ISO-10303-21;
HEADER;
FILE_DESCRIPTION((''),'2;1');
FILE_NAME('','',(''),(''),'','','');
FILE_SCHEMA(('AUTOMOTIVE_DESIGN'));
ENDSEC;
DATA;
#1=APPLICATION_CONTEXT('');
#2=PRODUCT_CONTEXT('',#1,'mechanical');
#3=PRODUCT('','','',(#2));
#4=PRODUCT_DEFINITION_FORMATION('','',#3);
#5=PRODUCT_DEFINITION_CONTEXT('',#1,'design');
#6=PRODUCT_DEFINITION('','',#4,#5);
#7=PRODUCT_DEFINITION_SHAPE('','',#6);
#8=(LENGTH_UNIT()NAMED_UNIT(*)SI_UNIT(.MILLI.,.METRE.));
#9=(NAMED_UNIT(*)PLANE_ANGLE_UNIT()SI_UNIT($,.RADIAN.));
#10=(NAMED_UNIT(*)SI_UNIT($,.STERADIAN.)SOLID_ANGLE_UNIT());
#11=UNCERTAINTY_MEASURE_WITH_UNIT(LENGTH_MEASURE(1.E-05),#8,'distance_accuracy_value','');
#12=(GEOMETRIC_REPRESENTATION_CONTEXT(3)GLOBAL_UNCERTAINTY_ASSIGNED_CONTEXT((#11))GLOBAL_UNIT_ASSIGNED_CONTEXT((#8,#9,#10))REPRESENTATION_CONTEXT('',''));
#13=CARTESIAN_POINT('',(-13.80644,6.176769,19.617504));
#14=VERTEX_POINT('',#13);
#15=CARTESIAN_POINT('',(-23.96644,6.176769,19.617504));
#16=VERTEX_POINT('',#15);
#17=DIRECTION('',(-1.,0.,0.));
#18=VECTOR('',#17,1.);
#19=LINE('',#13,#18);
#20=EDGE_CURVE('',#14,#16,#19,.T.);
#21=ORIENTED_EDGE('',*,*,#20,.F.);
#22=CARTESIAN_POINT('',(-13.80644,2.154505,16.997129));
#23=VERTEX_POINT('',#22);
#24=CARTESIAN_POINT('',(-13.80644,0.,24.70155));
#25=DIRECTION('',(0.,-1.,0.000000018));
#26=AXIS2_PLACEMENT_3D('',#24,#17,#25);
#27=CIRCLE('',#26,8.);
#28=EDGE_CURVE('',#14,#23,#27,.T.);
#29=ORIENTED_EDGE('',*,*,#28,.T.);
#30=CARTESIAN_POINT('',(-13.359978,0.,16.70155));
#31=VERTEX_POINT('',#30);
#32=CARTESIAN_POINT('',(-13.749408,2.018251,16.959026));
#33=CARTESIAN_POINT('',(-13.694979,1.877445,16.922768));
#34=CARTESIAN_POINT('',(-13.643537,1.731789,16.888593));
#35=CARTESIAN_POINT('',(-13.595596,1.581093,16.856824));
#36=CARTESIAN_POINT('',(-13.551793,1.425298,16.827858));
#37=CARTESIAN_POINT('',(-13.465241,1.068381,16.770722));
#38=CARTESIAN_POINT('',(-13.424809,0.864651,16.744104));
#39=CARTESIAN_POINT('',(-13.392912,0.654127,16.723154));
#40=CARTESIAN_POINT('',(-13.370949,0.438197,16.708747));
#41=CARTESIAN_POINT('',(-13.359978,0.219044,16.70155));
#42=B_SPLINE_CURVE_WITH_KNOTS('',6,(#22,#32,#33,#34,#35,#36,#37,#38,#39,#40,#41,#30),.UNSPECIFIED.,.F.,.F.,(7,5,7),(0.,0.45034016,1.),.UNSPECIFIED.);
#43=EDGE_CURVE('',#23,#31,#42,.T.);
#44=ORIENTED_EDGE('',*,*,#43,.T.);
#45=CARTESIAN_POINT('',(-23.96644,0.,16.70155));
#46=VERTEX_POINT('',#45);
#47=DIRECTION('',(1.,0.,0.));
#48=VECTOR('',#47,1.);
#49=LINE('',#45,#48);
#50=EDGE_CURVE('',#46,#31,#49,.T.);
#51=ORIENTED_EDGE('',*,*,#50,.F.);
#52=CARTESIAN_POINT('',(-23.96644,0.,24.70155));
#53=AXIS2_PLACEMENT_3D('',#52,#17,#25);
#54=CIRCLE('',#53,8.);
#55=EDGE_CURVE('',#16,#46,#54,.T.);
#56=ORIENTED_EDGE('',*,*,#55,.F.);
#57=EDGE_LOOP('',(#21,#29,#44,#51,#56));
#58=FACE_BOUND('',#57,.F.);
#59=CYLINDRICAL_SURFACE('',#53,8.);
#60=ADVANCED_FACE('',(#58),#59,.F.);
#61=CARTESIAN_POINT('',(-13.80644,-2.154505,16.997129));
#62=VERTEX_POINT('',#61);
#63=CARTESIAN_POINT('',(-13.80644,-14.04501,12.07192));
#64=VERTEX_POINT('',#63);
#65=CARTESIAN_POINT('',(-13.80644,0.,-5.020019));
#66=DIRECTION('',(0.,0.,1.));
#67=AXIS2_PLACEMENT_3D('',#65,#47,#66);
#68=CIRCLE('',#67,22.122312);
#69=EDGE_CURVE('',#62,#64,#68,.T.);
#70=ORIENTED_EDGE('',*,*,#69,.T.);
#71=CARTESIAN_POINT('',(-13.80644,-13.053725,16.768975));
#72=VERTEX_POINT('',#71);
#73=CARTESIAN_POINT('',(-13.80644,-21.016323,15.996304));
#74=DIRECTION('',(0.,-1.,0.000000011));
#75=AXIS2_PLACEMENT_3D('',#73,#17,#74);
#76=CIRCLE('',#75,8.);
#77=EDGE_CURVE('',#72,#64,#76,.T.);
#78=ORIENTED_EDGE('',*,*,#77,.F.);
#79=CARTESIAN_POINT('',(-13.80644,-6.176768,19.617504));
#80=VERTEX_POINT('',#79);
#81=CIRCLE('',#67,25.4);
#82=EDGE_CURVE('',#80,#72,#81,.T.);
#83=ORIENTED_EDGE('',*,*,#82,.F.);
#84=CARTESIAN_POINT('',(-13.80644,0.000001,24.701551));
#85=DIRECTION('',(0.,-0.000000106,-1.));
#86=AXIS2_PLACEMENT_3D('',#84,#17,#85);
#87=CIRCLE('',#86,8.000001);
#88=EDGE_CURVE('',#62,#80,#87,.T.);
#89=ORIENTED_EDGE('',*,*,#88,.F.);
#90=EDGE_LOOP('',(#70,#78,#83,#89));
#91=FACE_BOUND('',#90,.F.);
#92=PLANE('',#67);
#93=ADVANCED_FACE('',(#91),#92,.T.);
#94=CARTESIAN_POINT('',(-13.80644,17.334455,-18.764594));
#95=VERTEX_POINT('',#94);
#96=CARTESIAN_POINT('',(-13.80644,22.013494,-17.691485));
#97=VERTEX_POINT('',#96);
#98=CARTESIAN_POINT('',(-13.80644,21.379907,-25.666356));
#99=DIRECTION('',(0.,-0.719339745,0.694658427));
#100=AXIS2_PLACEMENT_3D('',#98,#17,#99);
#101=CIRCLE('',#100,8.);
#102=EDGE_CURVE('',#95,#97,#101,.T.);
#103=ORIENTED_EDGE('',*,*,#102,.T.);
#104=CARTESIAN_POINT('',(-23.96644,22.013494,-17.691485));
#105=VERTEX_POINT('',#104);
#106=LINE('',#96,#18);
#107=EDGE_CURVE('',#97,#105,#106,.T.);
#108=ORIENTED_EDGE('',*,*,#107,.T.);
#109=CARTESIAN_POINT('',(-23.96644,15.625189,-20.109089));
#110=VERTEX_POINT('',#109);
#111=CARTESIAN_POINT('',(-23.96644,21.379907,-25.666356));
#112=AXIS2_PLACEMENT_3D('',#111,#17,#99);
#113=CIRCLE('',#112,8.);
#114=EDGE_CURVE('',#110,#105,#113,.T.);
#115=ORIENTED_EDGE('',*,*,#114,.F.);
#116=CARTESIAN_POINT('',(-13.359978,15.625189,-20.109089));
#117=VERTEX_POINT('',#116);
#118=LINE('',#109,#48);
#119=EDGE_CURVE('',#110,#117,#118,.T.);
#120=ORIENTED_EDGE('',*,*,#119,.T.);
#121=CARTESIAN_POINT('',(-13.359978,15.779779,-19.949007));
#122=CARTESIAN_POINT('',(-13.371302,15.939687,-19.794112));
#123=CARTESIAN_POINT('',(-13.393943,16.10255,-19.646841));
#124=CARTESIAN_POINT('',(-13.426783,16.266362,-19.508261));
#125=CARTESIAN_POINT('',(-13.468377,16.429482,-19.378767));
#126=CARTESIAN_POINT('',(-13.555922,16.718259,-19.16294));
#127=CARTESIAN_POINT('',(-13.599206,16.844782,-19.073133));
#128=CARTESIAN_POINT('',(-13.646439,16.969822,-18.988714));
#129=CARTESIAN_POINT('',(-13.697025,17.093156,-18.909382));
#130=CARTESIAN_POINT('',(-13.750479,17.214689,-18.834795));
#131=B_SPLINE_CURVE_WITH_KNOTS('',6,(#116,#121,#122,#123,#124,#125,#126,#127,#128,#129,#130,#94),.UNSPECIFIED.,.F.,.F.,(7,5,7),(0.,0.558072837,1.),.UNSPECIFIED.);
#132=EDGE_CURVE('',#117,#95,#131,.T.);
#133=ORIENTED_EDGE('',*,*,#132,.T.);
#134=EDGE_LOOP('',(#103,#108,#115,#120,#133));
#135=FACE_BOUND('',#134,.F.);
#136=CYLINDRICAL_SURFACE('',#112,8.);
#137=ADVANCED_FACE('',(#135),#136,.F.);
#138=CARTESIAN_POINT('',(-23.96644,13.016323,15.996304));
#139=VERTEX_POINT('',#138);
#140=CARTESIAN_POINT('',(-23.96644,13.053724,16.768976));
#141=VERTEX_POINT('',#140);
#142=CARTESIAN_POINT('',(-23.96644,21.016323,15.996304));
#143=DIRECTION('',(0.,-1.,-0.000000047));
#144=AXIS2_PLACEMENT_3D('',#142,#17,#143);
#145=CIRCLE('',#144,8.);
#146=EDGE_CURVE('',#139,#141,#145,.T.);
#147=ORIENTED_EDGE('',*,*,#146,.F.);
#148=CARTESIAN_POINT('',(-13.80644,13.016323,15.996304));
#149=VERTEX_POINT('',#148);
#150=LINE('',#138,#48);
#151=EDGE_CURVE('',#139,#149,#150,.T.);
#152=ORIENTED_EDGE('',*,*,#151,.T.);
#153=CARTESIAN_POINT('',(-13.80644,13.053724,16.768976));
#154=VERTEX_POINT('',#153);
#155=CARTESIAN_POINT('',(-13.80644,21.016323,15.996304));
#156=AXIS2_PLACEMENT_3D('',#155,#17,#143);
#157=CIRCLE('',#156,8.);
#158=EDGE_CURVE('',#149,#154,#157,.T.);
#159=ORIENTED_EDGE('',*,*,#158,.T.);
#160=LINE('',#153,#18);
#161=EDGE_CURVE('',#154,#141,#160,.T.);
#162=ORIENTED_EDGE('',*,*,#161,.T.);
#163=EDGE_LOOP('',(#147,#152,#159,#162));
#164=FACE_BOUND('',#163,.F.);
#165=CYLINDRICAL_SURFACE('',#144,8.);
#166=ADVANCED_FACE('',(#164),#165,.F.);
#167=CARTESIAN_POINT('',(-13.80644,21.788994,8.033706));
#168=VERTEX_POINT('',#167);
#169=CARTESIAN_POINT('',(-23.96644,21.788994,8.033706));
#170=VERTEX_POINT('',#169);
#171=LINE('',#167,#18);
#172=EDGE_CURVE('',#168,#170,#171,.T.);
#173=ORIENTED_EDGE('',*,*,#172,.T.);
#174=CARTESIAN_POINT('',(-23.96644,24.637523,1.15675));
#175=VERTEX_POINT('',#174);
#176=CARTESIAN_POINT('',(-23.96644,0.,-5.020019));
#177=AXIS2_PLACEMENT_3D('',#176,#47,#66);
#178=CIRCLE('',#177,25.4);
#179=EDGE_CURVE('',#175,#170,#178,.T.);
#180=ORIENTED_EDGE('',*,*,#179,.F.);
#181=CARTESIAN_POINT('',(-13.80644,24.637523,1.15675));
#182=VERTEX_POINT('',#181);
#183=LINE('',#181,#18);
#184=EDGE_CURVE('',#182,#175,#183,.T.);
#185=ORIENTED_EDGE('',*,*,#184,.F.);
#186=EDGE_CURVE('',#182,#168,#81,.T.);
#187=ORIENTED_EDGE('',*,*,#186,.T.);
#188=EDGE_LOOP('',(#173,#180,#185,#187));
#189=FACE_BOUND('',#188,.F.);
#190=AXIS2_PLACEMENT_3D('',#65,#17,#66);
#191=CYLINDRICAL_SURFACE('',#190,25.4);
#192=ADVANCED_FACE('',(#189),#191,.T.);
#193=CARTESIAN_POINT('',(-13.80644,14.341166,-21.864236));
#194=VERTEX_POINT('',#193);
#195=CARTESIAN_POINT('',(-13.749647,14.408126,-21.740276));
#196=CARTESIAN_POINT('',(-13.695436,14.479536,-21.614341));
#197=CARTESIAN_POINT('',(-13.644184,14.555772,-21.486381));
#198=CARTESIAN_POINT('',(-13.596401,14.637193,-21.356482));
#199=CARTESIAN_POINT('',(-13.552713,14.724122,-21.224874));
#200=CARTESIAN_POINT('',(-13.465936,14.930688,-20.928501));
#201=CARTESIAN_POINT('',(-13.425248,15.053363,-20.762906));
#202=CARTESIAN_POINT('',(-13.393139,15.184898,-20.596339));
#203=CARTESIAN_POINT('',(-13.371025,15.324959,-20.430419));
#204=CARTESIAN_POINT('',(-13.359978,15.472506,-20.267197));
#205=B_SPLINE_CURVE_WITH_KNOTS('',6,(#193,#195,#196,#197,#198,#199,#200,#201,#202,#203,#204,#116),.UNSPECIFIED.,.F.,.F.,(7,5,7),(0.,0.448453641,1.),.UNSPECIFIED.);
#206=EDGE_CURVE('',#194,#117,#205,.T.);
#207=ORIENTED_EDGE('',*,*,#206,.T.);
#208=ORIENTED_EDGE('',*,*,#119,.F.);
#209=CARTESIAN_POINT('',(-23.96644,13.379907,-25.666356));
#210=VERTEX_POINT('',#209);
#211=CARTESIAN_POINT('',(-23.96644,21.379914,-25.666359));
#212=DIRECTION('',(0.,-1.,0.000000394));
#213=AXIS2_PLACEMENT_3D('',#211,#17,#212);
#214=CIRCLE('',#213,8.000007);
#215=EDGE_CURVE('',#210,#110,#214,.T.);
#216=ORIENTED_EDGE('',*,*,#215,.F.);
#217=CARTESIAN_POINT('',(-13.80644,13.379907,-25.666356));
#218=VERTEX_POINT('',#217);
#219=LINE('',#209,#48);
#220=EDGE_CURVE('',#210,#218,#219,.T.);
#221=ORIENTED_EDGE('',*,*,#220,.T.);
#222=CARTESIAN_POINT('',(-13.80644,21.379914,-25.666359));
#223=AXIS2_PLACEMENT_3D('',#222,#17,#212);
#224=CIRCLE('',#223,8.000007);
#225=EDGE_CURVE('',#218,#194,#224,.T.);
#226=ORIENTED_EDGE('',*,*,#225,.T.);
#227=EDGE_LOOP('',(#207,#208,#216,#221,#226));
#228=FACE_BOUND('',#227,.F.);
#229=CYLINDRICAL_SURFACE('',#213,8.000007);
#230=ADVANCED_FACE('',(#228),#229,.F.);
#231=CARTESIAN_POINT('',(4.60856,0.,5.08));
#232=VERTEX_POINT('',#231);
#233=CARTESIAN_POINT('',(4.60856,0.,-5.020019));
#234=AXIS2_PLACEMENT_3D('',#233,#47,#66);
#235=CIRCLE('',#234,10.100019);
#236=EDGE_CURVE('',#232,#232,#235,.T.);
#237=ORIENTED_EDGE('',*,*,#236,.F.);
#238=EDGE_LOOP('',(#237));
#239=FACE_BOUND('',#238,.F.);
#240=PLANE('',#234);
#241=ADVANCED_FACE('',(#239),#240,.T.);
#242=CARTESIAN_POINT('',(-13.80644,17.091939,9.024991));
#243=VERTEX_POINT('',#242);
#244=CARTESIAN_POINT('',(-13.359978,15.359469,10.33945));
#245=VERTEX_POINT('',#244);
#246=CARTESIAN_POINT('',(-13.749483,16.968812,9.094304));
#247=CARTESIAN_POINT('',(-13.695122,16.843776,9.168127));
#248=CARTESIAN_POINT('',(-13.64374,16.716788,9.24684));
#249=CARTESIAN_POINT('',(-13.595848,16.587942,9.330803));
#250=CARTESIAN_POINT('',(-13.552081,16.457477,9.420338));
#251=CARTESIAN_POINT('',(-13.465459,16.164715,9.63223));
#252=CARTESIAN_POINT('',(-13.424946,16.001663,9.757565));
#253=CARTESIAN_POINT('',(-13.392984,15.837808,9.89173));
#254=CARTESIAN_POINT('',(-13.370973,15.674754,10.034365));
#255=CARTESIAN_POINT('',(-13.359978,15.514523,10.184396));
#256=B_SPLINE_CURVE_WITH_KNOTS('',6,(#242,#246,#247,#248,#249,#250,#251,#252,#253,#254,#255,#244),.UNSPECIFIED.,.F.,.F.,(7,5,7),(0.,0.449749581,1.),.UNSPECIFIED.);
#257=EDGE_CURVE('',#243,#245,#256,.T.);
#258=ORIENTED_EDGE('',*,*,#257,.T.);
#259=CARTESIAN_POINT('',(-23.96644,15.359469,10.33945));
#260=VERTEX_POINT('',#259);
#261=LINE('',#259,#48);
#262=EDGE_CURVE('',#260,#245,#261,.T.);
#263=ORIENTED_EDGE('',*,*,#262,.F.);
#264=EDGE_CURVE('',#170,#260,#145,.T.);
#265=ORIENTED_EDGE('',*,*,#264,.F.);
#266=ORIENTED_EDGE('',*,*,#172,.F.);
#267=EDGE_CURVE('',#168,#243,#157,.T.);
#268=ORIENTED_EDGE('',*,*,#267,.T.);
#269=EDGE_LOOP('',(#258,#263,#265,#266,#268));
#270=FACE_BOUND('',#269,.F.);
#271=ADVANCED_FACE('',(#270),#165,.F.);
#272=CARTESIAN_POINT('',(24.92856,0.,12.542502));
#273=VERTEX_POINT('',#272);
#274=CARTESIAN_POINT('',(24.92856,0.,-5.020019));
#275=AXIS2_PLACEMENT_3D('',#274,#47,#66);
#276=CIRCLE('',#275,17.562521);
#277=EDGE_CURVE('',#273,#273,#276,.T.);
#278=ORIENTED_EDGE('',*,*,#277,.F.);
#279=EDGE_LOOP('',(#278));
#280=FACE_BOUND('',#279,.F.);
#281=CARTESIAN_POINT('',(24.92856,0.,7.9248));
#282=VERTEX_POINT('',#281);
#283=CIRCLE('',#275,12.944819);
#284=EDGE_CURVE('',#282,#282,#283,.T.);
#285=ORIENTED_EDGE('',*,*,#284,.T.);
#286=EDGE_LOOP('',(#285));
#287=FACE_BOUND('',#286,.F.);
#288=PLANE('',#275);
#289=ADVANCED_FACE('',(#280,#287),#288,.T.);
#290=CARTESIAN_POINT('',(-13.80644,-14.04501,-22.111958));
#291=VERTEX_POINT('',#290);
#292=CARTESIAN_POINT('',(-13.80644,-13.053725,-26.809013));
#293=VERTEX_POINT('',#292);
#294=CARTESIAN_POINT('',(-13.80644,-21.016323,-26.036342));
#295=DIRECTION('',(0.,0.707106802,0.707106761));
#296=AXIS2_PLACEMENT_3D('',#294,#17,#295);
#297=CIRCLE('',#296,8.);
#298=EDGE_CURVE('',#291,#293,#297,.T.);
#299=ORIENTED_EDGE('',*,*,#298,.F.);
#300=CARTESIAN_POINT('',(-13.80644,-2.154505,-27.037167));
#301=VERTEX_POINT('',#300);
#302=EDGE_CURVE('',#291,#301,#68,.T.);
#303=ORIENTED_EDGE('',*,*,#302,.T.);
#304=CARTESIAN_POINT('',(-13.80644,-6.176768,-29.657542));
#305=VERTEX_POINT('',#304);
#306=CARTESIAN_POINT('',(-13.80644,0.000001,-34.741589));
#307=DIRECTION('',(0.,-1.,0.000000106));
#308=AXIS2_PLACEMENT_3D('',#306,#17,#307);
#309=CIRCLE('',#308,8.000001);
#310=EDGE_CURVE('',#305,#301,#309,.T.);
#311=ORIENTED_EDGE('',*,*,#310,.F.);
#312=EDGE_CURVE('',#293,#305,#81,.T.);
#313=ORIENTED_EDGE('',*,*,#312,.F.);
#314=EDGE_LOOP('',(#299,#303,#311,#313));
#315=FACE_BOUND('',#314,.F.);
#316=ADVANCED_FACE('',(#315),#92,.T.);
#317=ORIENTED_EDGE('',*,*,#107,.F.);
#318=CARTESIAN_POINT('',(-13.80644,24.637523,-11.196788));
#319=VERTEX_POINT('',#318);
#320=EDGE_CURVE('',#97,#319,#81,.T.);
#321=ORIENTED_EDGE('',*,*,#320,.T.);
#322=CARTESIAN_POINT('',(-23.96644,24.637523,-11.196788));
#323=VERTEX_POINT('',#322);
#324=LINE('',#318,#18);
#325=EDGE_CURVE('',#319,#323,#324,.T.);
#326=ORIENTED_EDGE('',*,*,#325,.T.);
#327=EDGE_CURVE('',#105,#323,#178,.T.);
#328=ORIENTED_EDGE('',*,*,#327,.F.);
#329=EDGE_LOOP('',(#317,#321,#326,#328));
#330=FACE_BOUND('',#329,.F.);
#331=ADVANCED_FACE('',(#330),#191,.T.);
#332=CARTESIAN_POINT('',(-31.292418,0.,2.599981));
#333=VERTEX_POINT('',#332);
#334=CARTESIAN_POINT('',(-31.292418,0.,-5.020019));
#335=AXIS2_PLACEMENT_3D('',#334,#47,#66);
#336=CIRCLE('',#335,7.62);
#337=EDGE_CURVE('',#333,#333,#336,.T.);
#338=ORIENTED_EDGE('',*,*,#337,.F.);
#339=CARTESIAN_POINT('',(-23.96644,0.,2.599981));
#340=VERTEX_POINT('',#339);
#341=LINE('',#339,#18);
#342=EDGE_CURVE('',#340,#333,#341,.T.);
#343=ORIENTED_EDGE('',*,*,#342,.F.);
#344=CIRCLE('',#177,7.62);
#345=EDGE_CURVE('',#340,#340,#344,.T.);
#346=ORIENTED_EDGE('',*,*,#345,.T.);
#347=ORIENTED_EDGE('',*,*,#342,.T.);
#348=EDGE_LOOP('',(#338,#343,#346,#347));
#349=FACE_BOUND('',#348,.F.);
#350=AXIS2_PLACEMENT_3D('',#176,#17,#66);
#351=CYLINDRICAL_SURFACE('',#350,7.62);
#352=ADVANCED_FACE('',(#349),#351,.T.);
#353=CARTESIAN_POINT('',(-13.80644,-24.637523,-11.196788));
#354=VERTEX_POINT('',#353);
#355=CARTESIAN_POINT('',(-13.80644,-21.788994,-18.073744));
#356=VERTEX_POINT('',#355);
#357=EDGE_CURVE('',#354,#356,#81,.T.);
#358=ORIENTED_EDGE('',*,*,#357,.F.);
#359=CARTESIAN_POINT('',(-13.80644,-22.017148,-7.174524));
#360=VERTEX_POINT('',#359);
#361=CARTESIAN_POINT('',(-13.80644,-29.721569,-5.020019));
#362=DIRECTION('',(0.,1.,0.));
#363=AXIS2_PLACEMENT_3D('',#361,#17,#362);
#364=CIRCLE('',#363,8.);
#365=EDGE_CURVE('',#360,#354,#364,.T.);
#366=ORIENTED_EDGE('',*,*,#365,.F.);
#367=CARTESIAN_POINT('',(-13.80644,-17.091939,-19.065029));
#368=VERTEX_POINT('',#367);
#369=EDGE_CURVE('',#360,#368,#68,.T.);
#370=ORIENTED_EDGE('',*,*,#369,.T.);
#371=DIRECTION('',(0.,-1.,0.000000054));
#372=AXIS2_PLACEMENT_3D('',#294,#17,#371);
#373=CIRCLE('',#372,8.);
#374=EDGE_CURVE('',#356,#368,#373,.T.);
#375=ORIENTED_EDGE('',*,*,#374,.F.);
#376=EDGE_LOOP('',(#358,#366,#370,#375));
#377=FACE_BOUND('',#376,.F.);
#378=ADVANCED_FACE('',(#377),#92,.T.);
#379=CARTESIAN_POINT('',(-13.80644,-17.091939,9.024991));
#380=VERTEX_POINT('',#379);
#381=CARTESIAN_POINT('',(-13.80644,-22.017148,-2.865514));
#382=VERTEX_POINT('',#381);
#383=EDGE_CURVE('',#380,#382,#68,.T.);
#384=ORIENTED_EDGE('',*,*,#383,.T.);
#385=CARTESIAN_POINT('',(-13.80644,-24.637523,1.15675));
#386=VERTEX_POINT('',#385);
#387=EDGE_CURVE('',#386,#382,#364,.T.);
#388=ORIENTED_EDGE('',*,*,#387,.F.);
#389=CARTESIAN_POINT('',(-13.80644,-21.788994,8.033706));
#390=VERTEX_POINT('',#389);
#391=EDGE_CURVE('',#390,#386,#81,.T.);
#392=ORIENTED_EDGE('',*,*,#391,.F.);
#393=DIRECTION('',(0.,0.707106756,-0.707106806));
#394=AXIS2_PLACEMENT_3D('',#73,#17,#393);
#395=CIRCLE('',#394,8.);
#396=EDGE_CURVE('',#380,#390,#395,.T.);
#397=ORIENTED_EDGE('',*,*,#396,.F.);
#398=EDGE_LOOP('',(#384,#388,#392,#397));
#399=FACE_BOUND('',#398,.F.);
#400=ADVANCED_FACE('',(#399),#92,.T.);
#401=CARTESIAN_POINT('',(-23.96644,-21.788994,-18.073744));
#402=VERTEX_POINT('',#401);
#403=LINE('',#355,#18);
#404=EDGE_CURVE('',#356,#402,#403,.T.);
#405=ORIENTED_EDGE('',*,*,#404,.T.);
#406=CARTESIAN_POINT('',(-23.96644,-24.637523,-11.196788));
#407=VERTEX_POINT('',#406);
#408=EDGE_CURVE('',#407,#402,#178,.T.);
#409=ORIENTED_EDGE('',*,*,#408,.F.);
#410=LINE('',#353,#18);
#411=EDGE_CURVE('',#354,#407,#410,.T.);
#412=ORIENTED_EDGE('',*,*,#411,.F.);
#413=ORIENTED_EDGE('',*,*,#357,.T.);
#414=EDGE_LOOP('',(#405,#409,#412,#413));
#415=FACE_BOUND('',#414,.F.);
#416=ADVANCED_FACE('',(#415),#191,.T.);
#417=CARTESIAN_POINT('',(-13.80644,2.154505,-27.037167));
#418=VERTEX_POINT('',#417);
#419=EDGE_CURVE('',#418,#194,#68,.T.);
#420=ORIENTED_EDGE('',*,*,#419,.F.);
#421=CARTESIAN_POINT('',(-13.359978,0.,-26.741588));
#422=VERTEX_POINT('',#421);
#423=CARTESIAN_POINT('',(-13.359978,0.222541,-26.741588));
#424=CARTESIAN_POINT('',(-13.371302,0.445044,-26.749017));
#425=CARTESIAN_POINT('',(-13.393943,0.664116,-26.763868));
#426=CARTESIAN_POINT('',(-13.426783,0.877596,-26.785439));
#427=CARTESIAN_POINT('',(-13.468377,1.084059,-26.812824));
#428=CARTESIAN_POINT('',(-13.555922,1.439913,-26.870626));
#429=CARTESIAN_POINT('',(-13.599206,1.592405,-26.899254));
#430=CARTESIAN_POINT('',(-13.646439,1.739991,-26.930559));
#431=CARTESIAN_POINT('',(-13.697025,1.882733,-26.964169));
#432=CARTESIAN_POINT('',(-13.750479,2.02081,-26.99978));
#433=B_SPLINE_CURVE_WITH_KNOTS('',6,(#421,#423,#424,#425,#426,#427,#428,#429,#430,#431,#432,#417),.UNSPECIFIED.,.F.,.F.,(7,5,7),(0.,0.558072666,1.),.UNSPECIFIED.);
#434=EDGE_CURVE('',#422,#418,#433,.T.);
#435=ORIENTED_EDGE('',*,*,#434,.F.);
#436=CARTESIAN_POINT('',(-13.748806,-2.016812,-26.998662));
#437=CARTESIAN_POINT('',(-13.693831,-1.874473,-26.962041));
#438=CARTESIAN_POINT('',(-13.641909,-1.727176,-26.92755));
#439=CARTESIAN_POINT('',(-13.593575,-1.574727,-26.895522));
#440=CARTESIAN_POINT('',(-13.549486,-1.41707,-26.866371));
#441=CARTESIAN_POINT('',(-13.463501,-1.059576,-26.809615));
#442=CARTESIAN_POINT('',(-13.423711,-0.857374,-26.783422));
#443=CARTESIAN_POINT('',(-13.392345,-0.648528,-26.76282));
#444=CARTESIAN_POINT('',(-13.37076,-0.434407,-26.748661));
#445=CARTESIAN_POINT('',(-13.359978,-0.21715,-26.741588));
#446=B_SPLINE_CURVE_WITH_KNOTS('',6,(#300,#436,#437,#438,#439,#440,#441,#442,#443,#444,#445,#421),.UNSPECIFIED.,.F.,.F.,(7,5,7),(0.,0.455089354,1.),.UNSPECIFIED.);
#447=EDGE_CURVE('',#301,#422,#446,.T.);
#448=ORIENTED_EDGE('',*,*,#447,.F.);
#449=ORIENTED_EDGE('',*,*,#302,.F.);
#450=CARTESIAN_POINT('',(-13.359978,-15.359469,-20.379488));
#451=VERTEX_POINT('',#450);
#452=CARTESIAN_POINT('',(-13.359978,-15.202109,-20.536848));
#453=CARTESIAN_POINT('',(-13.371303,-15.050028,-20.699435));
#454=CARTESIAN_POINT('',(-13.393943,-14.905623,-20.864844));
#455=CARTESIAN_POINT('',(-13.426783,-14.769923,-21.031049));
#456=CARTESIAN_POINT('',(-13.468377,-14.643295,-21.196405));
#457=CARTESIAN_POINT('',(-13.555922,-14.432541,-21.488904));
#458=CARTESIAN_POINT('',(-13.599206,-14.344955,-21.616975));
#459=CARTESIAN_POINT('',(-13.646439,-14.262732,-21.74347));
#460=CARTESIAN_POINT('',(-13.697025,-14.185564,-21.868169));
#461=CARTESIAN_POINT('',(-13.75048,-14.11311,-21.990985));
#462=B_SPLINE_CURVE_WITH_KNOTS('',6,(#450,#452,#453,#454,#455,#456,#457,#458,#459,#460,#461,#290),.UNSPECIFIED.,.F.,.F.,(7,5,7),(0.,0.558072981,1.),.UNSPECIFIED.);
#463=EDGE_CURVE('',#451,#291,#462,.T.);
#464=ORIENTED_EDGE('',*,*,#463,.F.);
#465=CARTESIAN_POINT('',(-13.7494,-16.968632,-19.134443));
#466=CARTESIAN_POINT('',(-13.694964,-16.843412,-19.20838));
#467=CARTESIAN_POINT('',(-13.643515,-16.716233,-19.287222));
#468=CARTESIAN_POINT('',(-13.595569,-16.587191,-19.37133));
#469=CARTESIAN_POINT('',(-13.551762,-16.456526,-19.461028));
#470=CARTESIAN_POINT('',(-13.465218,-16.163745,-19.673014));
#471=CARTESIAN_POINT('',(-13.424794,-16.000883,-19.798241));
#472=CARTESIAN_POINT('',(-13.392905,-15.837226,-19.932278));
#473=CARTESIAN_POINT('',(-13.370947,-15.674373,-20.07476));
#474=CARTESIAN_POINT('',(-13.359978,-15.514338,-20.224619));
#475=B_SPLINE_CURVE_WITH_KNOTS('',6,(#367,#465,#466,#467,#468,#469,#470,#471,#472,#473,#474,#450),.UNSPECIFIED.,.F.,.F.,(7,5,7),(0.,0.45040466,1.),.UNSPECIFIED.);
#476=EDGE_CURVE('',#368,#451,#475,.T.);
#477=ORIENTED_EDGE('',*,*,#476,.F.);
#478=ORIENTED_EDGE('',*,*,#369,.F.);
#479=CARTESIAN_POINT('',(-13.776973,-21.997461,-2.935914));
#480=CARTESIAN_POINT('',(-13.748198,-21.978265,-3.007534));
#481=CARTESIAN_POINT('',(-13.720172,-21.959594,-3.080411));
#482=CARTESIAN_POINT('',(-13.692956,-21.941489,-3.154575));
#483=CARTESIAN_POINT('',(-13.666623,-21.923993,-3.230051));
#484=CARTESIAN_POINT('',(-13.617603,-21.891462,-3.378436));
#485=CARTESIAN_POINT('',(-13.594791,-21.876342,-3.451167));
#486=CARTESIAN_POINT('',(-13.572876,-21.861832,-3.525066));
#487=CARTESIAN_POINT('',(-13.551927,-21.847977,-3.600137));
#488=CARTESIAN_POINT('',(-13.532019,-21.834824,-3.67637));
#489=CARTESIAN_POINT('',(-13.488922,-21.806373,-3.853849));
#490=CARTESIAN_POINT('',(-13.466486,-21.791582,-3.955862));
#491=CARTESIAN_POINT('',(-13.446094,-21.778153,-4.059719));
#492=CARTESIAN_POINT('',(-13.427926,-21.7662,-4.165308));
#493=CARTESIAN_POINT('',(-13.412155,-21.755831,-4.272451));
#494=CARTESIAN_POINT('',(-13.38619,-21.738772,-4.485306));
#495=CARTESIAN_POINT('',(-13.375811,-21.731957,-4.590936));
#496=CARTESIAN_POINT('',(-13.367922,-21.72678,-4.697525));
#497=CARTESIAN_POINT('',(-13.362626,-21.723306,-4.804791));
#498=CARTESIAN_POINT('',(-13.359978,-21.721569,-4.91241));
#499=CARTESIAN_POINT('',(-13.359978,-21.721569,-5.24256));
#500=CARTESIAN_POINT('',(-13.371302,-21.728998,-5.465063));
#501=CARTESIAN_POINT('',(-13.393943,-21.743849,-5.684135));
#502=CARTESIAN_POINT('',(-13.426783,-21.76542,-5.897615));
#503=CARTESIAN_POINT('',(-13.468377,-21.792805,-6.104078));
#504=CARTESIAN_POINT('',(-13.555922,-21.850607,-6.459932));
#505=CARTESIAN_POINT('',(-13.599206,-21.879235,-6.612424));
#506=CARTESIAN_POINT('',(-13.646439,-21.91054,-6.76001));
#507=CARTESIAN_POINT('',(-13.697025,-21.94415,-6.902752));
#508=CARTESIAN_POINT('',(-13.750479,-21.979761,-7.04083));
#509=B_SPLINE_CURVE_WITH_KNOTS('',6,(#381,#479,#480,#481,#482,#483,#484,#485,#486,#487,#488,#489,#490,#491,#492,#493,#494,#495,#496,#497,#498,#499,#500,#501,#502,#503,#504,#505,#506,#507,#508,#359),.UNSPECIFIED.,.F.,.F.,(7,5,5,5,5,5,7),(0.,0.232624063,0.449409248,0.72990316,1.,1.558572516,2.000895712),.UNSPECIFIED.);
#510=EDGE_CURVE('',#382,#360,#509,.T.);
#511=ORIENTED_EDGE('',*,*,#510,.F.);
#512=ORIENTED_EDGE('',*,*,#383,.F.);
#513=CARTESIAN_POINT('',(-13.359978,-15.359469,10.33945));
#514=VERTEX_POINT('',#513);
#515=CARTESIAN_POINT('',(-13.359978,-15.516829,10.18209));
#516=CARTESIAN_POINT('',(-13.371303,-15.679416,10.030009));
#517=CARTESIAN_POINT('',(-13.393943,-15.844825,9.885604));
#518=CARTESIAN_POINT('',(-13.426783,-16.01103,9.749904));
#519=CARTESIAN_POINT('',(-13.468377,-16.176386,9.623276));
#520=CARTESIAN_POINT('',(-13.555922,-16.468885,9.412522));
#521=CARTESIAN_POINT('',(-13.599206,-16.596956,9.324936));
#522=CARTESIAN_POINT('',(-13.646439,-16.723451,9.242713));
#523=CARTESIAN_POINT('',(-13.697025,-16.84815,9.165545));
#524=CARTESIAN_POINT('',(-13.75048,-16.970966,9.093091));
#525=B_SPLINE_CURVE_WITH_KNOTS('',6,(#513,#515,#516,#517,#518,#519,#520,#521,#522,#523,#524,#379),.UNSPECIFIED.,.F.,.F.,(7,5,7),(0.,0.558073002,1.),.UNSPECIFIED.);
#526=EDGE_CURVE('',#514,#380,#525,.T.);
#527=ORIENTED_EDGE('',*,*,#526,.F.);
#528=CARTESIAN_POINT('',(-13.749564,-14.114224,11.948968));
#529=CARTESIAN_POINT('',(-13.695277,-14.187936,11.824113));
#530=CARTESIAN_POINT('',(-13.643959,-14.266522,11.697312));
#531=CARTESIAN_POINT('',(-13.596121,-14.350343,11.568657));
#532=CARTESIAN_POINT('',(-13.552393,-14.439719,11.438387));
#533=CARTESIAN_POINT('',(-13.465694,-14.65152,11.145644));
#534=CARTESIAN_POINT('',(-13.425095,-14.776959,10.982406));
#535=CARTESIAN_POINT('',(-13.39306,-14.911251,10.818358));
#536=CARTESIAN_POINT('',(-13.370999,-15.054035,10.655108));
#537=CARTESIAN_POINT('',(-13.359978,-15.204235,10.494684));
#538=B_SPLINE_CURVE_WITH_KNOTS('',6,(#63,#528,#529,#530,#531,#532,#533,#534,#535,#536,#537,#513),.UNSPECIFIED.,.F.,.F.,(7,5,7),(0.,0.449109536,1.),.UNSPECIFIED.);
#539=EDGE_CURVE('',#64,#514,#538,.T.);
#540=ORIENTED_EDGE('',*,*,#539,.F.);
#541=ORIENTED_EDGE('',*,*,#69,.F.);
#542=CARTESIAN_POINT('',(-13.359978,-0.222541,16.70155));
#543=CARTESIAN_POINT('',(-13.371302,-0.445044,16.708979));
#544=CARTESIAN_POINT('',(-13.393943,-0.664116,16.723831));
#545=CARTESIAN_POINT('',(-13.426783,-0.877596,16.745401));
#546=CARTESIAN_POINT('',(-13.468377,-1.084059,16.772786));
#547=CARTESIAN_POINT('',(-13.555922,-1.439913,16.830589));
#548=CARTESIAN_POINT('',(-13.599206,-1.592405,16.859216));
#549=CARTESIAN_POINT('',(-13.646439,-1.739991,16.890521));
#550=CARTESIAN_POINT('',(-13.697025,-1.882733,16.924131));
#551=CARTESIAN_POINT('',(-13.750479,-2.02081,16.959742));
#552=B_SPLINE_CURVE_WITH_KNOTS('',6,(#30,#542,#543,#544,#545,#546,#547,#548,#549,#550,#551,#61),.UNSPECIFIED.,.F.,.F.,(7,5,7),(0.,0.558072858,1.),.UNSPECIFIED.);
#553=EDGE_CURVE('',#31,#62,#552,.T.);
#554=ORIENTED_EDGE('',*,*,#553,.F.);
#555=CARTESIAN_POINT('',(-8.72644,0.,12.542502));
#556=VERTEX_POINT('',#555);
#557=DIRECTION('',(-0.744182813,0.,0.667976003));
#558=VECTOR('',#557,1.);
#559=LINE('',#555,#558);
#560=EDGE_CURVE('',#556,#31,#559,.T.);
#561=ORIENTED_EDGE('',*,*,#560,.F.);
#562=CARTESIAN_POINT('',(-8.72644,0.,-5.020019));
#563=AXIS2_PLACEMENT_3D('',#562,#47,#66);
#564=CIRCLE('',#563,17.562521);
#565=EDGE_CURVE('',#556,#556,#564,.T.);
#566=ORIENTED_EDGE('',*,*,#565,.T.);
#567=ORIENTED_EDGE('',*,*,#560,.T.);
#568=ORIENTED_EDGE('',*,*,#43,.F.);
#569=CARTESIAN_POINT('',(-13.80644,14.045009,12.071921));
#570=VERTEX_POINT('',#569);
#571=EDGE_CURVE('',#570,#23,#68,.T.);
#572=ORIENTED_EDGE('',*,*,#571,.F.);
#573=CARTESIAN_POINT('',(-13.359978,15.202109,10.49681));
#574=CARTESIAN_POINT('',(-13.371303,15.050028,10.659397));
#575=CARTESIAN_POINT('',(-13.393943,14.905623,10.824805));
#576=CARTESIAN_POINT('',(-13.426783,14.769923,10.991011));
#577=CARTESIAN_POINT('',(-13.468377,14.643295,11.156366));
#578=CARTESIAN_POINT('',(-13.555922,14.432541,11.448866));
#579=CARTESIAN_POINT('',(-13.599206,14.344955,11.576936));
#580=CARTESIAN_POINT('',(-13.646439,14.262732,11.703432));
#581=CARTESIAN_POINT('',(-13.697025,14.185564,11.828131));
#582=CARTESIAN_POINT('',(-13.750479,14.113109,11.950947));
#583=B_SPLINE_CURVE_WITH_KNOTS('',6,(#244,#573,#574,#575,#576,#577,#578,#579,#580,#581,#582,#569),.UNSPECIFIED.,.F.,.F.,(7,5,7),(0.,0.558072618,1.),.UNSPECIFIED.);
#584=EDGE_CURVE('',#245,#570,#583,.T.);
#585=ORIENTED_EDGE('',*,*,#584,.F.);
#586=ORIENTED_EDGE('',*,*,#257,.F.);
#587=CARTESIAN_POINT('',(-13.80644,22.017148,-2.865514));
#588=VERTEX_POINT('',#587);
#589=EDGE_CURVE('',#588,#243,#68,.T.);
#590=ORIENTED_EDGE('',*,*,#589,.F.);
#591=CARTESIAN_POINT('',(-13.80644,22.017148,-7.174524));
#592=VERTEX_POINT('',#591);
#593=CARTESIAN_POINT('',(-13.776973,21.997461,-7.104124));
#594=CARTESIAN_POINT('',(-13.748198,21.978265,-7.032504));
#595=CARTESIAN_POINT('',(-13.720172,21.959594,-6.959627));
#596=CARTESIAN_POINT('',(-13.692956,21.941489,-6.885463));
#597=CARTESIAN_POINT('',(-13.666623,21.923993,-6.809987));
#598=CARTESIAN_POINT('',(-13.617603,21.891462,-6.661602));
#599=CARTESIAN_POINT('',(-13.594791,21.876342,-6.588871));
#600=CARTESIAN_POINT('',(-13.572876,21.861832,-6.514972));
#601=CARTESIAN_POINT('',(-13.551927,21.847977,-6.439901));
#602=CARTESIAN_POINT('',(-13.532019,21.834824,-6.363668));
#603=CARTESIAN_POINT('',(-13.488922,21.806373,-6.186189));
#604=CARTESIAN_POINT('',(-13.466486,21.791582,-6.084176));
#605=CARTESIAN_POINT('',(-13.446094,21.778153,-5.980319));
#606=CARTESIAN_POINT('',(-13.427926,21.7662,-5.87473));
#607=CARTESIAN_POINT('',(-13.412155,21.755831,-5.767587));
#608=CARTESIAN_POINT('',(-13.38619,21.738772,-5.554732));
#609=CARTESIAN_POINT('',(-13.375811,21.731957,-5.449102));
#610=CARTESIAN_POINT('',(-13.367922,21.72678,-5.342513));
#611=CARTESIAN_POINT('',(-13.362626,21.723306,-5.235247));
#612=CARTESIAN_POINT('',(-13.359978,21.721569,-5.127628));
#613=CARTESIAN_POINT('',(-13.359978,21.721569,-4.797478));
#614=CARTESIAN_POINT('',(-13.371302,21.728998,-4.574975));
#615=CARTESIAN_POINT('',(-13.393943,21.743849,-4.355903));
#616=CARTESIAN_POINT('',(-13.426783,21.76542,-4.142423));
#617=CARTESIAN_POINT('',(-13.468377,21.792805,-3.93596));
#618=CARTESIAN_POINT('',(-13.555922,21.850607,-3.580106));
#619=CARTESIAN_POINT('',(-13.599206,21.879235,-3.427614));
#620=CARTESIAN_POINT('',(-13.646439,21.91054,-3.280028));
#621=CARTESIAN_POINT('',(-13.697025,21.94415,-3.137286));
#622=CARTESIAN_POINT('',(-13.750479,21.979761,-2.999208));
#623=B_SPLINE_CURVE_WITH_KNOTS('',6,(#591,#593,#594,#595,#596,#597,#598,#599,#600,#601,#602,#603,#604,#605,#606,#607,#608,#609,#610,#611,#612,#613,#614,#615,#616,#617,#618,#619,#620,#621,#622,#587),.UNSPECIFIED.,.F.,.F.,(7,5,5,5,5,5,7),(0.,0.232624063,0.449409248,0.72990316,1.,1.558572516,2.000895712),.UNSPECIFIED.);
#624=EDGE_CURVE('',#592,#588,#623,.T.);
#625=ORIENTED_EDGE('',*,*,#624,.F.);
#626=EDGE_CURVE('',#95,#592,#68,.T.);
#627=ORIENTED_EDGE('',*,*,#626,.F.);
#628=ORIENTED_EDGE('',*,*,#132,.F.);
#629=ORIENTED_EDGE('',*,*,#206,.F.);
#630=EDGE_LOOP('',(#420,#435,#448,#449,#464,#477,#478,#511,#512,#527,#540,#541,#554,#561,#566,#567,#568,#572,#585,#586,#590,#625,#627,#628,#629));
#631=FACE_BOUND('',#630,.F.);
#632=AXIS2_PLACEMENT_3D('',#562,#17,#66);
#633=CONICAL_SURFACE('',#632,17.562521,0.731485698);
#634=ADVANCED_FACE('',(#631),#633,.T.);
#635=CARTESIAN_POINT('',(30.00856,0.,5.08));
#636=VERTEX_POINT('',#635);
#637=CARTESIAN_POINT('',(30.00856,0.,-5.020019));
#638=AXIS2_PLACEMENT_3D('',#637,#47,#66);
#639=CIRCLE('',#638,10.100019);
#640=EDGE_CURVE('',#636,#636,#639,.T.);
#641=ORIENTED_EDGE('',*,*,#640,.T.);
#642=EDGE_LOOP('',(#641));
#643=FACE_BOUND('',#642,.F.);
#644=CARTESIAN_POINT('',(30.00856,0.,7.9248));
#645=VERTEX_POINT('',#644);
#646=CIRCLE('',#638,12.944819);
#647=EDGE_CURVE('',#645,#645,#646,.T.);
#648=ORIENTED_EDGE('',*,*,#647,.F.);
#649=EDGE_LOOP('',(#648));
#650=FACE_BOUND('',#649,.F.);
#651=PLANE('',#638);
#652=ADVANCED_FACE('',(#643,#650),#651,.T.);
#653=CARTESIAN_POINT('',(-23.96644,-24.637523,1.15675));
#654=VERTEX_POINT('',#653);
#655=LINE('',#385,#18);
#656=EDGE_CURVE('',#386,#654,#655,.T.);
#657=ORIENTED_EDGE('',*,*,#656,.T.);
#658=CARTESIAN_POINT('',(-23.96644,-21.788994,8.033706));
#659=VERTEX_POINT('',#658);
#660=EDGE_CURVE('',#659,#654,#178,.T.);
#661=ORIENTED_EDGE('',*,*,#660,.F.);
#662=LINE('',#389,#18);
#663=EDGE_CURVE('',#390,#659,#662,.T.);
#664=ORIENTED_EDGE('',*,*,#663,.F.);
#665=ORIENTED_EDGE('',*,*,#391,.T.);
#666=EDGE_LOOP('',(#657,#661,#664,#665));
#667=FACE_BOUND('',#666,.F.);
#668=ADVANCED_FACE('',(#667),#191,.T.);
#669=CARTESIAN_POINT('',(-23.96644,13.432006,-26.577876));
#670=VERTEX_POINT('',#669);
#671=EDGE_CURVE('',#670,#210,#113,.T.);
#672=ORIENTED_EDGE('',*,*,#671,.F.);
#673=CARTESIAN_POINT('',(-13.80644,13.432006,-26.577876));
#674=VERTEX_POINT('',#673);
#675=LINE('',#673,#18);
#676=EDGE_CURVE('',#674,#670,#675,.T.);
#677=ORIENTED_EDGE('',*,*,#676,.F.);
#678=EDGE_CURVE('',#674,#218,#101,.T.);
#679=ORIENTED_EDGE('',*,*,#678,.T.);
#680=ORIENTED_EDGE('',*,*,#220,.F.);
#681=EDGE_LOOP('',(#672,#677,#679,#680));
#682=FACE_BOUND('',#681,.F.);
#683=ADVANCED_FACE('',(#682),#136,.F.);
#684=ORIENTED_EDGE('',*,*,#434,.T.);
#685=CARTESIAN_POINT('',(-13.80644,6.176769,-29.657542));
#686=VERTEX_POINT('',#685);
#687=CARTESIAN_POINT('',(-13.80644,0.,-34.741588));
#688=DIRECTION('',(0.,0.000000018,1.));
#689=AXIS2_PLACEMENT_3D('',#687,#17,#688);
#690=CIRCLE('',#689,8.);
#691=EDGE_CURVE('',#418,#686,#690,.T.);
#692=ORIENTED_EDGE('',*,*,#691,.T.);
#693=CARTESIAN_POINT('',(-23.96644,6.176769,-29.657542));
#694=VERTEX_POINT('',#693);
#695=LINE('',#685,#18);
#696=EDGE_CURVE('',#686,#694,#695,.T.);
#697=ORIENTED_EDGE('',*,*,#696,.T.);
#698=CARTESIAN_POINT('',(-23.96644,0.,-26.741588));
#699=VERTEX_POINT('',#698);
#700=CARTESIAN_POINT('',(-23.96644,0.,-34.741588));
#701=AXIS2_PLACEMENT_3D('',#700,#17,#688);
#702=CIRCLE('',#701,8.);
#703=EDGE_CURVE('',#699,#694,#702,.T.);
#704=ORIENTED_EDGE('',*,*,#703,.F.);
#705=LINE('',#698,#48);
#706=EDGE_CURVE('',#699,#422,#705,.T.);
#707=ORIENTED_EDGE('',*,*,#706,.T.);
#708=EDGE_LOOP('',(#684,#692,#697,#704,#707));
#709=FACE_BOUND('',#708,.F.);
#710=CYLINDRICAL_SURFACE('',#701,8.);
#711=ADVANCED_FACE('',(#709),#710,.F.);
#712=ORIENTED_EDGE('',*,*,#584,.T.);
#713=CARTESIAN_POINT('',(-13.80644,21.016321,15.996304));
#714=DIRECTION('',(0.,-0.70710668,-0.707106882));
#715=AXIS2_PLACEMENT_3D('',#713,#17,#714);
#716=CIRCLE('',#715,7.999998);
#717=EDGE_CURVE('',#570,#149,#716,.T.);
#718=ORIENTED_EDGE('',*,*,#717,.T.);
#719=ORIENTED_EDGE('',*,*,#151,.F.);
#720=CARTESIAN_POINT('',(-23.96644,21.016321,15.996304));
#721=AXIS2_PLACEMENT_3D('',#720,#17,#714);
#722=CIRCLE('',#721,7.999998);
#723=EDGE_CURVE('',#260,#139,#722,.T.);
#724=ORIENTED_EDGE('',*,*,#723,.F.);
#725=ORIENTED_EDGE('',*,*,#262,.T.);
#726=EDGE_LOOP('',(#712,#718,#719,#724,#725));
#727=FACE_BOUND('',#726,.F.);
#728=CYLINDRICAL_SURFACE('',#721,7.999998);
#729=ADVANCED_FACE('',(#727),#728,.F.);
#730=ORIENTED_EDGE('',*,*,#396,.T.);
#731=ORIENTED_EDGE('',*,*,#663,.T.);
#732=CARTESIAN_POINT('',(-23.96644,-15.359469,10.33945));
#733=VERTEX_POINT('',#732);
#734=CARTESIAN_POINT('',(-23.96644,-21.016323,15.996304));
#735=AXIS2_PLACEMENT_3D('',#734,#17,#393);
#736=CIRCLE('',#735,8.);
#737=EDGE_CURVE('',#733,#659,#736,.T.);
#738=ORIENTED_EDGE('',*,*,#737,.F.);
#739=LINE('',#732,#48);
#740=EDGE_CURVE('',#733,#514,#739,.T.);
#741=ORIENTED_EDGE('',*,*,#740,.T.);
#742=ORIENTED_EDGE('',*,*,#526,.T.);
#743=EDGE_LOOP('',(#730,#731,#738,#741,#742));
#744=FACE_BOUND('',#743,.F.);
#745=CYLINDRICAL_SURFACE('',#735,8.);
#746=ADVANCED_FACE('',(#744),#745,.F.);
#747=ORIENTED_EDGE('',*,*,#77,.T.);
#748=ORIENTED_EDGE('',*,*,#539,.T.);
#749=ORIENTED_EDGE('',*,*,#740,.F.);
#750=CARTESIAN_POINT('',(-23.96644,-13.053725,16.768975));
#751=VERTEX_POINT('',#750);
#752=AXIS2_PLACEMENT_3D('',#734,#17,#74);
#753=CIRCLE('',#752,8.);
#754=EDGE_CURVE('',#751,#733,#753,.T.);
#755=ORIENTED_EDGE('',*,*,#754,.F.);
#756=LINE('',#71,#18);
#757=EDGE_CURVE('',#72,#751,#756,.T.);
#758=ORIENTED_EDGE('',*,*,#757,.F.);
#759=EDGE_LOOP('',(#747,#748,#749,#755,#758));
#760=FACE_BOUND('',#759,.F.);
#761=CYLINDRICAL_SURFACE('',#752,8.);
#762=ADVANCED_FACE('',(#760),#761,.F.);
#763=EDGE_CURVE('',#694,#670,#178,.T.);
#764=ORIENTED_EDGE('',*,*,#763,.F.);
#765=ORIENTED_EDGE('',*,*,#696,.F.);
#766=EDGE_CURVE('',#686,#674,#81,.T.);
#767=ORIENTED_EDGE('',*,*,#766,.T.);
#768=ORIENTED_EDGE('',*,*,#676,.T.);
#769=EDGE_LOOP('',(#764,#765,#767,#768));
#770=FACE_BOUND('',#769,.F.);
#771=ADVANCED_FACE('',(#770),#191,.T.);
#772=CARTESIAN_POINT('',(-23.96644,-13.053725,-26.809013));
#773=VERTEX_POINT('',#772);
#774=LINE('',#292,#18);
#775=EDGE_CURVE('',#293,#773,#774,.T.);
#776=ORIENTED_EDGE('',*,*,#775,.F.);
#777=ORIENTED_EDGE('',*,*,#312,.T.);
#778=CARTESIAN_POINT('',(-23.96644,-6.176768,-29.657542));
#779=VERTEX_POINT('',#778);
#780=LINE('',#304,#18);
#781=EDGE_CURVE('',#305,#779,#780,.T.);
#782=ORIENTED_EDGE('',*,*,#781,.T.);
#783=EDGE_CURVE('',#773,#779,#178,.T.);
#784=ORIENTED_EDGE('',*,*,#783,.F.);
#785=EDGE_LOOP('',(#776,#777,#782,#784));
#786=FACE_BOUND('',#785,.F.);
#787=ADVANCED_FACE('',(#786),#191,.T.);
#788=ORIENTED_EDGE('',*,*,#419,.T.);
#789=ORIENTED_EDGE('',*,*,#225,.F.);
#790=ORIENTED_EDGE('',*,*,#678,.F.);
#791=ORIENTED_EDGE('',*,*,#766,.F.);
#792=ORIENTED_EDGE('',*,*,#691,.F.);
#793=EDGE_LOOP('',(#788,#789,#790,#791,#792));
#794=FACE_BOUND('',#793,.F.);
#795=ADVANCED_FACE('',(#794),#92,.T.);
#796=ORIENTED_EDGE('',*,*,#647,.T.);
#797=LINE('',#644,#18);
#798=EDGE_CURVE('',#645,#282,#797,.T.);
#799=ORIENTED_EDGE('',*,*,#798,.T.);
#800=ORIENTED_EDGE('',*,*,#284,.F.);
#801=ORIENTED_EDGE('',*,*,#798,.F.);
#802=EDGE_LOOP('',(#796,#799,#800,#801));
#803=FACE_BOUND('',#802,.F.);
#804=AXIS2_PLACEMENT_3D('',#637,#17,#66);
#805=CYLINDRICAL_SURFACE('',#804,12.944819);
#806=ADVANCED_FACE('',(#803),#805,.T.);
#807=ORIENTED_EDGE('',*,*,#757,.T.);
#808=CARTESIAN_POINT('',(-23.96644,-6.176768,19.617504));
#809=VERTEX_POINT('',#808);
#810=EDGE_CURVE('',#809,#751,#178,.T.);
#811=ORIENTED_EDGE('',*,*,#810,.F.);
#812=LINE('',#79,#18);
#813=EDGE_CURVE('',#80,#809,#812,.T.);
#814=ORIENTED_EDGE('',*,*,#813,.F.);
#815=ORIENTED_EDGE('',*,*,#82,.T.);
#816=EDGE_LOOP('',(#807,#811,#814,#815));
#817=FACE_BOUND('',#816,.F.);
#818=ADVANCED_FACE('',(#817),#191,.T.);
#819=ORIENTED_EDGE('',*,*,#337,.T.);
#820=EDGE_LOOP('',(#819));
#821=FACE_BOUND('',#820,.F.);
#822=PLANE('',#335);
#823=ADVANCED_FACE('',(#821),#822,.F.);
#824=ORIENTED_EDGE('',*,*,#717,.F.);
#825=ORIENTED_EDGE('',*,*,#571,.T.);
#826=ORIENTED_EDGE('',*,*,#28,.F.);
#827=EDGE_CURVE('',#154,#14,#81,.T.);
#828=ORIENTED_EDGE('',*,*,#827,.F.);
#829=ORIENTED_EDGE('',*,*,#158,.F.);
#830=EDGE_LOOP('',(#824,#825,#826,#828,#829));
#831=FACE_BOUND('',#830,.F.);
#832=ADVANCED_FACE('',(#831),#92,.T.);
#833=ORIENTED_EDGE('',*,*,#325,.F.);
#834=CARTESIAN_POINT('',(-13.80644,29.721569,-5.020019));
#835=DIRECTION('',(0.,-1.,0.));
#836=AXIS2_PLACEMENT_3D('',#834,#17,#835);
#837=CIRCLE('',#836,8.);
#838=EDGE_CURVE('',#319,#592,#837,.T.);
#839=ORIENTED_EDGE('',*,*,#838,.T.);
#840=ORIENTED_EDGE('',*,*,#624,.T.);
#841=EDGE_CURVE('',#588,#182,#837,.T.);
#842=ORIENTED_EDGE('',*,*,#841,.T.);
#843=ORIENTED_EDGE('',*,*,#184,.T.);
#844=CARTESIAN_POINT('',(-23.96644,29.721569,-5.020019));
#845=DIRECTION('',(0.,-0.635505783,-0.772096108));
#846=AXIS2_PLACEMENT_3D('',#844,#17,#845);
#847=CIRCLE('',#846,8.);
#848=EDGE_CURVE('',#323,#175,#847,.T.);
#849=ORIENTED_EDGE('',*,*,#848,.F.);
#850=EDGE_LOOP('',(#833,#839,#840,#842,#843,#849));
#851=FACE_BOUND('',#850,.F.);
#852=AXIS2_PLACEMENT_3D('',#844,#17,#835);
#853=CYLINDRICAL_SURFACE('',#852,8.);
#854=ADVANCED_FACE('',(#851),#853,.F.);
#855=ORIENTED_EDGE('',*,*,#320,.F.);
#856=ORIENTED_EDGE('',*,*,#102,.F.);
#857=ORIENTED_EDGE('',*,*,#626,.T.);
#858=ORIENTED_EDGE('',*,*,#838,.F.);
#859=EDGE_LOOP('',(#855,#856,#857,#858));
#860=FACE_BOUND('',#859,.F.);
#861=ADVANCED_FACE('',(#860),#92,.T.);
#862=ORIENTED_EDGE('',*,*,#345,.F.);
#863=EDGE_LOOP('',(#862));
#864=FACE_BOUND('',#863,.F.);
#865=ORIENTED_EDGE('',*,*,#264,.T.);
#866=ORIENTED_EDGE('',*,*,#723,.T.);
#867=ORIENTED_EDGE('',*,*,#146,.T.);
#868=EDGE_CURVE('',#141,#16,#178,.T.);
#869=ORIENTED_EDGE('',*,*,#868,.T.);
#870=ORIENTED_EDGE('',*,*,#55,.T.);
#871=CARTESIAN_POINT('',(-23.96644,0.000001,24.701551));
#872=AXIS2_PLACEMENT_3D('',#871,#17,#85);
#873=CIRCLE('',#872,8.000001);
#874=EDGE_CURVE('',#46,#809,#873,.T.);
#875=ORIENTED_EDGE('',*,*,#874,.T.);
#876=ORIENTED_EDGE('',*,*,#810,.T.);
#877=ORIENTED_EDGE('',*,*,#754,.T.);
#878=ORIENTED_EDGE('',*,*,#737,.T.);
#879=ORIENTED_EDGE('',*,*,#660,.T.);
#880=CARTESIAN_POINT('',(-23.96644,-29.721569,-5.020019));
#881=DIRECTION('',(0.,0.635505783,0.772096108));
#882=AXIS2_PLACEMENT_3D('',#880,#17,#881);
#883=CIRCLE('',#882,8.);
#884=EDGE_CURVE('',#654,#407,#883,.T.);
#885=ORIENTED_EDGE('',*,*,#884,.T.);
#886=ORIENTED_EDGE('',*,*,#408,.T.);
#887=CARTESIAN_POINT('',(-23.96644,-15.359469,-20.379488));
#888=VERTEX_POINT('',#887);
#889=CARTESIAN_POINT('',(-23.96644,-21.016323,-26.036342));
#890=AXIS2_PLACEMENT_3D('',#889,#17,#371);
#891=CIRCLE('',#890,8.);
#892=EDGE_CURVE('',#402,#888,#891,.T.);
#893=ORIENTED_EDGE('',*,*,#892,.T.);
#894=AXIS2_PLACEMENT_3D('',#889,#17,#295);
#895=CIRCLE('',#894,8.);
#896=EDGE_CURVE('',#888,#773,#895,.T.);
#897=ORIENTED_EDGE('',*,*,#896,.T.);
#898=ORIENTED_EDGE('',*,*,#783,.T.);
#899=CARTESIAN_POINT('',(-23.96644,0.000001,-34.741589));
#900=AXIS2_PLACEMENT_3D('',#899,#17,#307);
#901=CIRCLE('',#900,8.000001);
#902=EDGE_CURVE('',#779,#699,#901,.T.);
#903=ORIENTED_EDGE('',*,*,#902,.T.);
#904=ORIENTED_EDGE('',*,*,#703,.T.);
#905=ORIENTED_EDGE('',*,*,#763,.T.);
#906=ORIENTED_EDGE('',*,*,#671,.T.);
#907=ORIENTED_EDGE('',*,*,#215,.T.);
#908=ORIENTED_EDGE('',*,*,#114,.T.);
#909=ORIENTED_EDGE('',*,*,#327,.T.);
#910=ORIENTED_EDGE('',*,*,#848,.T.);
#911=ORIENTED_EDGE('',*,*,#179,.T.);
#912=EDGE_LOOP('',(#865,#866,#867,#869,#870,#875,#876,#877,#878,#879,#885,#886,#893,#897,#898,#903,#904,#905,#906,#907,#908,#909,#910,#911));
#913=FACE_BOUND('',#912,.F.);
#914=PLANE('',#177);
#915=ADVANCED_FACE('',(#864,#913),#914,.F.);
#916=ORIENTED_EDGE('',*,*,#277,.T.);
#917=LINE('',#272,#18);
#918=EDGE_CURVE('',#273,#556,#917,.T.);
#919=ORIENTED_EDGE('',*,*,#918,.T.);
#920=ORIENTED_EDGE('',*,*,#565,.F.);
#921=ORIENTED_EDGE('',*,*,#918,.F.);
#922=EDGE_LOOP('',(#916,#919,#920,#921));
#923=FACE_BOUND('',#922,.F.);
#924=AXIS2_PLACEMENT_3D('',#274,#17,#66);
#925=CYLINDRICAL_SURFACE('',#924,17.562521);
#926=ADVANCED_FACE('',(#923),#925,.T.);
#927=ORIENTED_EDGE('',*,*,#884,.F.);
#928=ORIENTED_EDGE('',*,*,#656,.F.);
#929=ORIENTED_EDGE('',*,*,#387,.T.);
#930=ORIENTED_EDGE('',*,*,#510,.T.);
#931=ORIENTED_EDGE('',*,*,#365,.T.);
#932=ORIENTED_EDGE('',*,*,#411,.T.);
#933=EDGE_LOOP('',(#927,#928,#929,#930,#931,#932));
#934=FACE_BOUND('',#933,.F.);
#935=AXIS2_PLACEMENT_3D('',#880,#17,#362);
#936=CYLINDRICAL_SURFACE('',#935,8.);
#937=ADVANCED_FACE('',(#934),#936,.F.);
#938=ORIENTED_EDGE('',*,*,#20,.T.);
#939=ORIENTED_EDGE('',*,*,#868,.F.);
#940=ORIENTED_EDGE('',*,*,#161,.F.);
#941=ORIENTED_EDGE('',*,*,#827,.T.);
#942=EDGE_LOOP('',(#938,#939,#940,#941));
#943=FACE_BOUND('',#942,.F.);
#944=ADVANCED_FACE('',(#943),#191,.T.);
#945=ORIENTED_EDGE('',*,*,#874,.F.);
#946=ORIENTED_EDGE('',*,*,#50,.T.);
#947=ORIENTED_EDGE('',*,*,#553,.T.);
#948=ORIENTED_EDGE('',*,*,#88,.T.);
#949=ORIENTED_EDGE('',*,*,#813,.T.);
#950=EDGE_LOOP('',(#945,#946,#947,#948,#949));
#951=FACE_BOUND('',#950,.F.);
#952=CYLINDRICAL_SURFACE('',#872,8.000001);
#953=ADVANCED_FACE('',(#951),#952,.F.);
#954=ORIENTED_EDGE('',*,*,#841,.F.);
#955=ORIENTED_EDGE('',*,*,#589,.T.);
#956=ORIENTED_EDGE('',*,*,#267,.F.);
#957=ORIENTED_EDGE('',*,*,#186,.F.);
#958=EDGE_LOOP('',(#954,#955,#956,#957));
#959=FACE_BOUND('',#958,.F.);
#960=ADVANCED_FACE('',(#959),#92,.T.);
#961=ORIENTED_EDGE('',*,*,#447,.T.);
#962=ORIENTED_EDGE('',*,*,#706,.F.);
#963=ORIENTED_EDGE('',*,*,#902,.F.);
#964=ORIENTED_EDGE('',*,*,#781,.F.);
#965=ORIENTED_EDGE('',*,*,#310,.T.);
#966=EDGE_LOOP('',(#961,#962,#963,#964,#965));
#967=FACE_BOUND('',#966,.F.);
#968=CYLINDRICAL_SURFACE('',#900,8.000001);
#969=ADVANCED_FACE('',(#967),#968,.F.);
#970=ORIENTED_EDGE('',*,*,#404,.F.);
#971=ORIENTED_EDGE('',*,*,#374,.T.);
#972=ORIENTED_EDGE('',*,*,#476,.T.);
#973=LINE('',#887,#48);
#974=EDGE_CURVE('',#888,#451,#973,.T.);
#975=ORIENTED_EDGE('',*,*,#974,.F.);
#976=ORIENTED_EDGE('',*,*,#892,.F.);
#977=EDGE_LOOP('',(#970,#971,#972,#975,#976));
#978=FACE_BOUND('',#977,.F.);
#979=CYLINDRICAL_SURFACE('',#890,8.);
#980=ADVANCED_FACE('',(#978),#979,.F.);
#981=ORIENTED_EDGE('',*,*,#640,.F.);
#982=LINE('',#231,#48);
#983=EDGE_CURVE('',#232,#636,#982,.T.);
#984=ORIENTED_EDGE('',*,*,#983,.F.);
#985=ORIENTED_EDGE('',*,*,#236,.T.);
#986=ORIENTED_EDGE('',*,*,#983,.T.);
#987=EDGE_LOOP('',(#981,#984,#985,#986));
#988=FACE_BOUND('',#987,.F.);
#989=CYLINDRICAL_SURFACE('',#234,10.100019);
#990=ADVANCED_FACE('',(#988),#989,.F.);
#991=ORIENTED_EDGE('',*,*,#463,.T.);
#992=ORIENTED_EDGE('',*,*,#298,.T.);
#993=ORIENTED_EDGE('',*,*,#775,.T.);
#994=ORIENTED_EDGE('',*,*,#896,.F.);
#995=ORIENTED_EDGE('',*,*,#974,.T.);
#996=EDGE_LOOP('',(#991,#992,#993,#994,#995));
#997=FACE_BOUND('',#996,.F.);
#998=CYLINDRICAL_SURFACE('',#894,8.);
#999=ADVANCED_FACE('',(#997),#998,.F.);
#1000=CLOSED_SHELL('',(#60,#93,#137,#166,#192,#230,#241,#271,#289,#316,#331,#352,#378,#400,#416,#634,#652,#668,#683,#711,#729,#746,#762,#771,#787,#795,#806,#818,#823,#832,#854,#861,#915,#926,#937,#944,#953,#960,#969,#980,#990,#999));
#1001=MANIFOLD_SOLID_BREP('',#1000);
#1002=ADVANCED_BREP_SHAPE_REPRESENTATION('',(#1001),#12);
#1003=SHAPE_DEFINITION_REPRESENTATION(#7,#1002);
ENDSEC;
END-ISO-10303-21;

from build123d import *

# Parameters (mm, degrees)
F2_R     = 8
F3_DEPTH = 25


with BuildPart() as f1:
    # F0 (on Front) → F1 (revolve)
    with BuildSketch(Plane.XZ):
        Polygon((24.92856, 7.9248), (24.92856, 12.542502), (-8.72644, 12.542502), (-13.80644, 17.102293), (-13.80644, 20.379981), (-23.96644, 20.379981), (-23.96644, 2.599981), (-31.292418, 2.599981), (-31.292418, -5.020019), (4.60856, -5.020019), (4.60856, 5.08), (30.00856, 5.08), (30.00856, 7.9248), align=None)
    revolve(axis=Axis((-13.341929, 0, -5.020019), (1, 0, 0)))

    # F2 (on face) → F3 (cut)
    with BuildSketch(Plane(origin=(-23.96644, 0, 0), x_dir=(0, -1, 0), z_dir=(-1, 0, 0))):
        with BuildLine():
            ThreePointArc((8, 24.70155), (-5.656854, 30.358404), (0, 16.70155))
            ThreePointArc((0, 16.70155), (5.656854, 19.044696), (8, 24.70155))
        make_face()
        with BuildLine():
            ThreePointArc((8, -34.741588), (5.656854, -29.084734), (0, -26.741588))
            ThreePointArc((0, -26.741588), (-5.656854, -40.398442), (8, -34.741588))
        make_face()
        with Locations((-29.721569, -5.020019)):
            Circle(F2_R)
        with BuildLine():
            ThreePointArc((37.721569, -5.020019), (29.721569, 2.979981), (21.721569, -5.020019))
            ThreePointArc((21.721569, -5.020019), (29.721569, -13.020019), (37.721569, -5.020019))
        make_face()
        with BuildLine():
            ThreePointArc((-13.016323, 15.996304), (-28.407359, 19.057771), (-15.359469, 10.33945))
            ThreePointArc((-15.359469, 10.33945), (-13.625287, 12.934836), (-13.016323, 15.996304))
        make_face()
        with BuildLine():
            ThreePointArc((29.016323, 15.996304), (17.954856, 23.38734), (15.359469, 10.33945))
            ThreePointArc((15.359469, 10.33945), (24.07779, 8.605268), (29.016323, 15.996304))
        make_face()
        with BuildLine():
            ThreePointArc((29.016323, -26.036342), (24.07779, -18.645306), (15.359469, -20.379488))
            ThreePointArc((15.359469, -20.379488), (17.954856, -33.427378), (29.016323, -26.036342))
        make_face()
        with BuildLine():
            ThreePointArc((-13.379907, -25.666356), (-13.962437, -22.669503), (-15.625189, -20.109089))
            ThreePointArc((-15.625189, -20.109089), (-28.797378, -28.663208), (-13.379907, -25.666356))
        make_face()
    extrude(amount=-F3_DEPTH, mode=Mode.SUBTRACT)


solid = f1.part
